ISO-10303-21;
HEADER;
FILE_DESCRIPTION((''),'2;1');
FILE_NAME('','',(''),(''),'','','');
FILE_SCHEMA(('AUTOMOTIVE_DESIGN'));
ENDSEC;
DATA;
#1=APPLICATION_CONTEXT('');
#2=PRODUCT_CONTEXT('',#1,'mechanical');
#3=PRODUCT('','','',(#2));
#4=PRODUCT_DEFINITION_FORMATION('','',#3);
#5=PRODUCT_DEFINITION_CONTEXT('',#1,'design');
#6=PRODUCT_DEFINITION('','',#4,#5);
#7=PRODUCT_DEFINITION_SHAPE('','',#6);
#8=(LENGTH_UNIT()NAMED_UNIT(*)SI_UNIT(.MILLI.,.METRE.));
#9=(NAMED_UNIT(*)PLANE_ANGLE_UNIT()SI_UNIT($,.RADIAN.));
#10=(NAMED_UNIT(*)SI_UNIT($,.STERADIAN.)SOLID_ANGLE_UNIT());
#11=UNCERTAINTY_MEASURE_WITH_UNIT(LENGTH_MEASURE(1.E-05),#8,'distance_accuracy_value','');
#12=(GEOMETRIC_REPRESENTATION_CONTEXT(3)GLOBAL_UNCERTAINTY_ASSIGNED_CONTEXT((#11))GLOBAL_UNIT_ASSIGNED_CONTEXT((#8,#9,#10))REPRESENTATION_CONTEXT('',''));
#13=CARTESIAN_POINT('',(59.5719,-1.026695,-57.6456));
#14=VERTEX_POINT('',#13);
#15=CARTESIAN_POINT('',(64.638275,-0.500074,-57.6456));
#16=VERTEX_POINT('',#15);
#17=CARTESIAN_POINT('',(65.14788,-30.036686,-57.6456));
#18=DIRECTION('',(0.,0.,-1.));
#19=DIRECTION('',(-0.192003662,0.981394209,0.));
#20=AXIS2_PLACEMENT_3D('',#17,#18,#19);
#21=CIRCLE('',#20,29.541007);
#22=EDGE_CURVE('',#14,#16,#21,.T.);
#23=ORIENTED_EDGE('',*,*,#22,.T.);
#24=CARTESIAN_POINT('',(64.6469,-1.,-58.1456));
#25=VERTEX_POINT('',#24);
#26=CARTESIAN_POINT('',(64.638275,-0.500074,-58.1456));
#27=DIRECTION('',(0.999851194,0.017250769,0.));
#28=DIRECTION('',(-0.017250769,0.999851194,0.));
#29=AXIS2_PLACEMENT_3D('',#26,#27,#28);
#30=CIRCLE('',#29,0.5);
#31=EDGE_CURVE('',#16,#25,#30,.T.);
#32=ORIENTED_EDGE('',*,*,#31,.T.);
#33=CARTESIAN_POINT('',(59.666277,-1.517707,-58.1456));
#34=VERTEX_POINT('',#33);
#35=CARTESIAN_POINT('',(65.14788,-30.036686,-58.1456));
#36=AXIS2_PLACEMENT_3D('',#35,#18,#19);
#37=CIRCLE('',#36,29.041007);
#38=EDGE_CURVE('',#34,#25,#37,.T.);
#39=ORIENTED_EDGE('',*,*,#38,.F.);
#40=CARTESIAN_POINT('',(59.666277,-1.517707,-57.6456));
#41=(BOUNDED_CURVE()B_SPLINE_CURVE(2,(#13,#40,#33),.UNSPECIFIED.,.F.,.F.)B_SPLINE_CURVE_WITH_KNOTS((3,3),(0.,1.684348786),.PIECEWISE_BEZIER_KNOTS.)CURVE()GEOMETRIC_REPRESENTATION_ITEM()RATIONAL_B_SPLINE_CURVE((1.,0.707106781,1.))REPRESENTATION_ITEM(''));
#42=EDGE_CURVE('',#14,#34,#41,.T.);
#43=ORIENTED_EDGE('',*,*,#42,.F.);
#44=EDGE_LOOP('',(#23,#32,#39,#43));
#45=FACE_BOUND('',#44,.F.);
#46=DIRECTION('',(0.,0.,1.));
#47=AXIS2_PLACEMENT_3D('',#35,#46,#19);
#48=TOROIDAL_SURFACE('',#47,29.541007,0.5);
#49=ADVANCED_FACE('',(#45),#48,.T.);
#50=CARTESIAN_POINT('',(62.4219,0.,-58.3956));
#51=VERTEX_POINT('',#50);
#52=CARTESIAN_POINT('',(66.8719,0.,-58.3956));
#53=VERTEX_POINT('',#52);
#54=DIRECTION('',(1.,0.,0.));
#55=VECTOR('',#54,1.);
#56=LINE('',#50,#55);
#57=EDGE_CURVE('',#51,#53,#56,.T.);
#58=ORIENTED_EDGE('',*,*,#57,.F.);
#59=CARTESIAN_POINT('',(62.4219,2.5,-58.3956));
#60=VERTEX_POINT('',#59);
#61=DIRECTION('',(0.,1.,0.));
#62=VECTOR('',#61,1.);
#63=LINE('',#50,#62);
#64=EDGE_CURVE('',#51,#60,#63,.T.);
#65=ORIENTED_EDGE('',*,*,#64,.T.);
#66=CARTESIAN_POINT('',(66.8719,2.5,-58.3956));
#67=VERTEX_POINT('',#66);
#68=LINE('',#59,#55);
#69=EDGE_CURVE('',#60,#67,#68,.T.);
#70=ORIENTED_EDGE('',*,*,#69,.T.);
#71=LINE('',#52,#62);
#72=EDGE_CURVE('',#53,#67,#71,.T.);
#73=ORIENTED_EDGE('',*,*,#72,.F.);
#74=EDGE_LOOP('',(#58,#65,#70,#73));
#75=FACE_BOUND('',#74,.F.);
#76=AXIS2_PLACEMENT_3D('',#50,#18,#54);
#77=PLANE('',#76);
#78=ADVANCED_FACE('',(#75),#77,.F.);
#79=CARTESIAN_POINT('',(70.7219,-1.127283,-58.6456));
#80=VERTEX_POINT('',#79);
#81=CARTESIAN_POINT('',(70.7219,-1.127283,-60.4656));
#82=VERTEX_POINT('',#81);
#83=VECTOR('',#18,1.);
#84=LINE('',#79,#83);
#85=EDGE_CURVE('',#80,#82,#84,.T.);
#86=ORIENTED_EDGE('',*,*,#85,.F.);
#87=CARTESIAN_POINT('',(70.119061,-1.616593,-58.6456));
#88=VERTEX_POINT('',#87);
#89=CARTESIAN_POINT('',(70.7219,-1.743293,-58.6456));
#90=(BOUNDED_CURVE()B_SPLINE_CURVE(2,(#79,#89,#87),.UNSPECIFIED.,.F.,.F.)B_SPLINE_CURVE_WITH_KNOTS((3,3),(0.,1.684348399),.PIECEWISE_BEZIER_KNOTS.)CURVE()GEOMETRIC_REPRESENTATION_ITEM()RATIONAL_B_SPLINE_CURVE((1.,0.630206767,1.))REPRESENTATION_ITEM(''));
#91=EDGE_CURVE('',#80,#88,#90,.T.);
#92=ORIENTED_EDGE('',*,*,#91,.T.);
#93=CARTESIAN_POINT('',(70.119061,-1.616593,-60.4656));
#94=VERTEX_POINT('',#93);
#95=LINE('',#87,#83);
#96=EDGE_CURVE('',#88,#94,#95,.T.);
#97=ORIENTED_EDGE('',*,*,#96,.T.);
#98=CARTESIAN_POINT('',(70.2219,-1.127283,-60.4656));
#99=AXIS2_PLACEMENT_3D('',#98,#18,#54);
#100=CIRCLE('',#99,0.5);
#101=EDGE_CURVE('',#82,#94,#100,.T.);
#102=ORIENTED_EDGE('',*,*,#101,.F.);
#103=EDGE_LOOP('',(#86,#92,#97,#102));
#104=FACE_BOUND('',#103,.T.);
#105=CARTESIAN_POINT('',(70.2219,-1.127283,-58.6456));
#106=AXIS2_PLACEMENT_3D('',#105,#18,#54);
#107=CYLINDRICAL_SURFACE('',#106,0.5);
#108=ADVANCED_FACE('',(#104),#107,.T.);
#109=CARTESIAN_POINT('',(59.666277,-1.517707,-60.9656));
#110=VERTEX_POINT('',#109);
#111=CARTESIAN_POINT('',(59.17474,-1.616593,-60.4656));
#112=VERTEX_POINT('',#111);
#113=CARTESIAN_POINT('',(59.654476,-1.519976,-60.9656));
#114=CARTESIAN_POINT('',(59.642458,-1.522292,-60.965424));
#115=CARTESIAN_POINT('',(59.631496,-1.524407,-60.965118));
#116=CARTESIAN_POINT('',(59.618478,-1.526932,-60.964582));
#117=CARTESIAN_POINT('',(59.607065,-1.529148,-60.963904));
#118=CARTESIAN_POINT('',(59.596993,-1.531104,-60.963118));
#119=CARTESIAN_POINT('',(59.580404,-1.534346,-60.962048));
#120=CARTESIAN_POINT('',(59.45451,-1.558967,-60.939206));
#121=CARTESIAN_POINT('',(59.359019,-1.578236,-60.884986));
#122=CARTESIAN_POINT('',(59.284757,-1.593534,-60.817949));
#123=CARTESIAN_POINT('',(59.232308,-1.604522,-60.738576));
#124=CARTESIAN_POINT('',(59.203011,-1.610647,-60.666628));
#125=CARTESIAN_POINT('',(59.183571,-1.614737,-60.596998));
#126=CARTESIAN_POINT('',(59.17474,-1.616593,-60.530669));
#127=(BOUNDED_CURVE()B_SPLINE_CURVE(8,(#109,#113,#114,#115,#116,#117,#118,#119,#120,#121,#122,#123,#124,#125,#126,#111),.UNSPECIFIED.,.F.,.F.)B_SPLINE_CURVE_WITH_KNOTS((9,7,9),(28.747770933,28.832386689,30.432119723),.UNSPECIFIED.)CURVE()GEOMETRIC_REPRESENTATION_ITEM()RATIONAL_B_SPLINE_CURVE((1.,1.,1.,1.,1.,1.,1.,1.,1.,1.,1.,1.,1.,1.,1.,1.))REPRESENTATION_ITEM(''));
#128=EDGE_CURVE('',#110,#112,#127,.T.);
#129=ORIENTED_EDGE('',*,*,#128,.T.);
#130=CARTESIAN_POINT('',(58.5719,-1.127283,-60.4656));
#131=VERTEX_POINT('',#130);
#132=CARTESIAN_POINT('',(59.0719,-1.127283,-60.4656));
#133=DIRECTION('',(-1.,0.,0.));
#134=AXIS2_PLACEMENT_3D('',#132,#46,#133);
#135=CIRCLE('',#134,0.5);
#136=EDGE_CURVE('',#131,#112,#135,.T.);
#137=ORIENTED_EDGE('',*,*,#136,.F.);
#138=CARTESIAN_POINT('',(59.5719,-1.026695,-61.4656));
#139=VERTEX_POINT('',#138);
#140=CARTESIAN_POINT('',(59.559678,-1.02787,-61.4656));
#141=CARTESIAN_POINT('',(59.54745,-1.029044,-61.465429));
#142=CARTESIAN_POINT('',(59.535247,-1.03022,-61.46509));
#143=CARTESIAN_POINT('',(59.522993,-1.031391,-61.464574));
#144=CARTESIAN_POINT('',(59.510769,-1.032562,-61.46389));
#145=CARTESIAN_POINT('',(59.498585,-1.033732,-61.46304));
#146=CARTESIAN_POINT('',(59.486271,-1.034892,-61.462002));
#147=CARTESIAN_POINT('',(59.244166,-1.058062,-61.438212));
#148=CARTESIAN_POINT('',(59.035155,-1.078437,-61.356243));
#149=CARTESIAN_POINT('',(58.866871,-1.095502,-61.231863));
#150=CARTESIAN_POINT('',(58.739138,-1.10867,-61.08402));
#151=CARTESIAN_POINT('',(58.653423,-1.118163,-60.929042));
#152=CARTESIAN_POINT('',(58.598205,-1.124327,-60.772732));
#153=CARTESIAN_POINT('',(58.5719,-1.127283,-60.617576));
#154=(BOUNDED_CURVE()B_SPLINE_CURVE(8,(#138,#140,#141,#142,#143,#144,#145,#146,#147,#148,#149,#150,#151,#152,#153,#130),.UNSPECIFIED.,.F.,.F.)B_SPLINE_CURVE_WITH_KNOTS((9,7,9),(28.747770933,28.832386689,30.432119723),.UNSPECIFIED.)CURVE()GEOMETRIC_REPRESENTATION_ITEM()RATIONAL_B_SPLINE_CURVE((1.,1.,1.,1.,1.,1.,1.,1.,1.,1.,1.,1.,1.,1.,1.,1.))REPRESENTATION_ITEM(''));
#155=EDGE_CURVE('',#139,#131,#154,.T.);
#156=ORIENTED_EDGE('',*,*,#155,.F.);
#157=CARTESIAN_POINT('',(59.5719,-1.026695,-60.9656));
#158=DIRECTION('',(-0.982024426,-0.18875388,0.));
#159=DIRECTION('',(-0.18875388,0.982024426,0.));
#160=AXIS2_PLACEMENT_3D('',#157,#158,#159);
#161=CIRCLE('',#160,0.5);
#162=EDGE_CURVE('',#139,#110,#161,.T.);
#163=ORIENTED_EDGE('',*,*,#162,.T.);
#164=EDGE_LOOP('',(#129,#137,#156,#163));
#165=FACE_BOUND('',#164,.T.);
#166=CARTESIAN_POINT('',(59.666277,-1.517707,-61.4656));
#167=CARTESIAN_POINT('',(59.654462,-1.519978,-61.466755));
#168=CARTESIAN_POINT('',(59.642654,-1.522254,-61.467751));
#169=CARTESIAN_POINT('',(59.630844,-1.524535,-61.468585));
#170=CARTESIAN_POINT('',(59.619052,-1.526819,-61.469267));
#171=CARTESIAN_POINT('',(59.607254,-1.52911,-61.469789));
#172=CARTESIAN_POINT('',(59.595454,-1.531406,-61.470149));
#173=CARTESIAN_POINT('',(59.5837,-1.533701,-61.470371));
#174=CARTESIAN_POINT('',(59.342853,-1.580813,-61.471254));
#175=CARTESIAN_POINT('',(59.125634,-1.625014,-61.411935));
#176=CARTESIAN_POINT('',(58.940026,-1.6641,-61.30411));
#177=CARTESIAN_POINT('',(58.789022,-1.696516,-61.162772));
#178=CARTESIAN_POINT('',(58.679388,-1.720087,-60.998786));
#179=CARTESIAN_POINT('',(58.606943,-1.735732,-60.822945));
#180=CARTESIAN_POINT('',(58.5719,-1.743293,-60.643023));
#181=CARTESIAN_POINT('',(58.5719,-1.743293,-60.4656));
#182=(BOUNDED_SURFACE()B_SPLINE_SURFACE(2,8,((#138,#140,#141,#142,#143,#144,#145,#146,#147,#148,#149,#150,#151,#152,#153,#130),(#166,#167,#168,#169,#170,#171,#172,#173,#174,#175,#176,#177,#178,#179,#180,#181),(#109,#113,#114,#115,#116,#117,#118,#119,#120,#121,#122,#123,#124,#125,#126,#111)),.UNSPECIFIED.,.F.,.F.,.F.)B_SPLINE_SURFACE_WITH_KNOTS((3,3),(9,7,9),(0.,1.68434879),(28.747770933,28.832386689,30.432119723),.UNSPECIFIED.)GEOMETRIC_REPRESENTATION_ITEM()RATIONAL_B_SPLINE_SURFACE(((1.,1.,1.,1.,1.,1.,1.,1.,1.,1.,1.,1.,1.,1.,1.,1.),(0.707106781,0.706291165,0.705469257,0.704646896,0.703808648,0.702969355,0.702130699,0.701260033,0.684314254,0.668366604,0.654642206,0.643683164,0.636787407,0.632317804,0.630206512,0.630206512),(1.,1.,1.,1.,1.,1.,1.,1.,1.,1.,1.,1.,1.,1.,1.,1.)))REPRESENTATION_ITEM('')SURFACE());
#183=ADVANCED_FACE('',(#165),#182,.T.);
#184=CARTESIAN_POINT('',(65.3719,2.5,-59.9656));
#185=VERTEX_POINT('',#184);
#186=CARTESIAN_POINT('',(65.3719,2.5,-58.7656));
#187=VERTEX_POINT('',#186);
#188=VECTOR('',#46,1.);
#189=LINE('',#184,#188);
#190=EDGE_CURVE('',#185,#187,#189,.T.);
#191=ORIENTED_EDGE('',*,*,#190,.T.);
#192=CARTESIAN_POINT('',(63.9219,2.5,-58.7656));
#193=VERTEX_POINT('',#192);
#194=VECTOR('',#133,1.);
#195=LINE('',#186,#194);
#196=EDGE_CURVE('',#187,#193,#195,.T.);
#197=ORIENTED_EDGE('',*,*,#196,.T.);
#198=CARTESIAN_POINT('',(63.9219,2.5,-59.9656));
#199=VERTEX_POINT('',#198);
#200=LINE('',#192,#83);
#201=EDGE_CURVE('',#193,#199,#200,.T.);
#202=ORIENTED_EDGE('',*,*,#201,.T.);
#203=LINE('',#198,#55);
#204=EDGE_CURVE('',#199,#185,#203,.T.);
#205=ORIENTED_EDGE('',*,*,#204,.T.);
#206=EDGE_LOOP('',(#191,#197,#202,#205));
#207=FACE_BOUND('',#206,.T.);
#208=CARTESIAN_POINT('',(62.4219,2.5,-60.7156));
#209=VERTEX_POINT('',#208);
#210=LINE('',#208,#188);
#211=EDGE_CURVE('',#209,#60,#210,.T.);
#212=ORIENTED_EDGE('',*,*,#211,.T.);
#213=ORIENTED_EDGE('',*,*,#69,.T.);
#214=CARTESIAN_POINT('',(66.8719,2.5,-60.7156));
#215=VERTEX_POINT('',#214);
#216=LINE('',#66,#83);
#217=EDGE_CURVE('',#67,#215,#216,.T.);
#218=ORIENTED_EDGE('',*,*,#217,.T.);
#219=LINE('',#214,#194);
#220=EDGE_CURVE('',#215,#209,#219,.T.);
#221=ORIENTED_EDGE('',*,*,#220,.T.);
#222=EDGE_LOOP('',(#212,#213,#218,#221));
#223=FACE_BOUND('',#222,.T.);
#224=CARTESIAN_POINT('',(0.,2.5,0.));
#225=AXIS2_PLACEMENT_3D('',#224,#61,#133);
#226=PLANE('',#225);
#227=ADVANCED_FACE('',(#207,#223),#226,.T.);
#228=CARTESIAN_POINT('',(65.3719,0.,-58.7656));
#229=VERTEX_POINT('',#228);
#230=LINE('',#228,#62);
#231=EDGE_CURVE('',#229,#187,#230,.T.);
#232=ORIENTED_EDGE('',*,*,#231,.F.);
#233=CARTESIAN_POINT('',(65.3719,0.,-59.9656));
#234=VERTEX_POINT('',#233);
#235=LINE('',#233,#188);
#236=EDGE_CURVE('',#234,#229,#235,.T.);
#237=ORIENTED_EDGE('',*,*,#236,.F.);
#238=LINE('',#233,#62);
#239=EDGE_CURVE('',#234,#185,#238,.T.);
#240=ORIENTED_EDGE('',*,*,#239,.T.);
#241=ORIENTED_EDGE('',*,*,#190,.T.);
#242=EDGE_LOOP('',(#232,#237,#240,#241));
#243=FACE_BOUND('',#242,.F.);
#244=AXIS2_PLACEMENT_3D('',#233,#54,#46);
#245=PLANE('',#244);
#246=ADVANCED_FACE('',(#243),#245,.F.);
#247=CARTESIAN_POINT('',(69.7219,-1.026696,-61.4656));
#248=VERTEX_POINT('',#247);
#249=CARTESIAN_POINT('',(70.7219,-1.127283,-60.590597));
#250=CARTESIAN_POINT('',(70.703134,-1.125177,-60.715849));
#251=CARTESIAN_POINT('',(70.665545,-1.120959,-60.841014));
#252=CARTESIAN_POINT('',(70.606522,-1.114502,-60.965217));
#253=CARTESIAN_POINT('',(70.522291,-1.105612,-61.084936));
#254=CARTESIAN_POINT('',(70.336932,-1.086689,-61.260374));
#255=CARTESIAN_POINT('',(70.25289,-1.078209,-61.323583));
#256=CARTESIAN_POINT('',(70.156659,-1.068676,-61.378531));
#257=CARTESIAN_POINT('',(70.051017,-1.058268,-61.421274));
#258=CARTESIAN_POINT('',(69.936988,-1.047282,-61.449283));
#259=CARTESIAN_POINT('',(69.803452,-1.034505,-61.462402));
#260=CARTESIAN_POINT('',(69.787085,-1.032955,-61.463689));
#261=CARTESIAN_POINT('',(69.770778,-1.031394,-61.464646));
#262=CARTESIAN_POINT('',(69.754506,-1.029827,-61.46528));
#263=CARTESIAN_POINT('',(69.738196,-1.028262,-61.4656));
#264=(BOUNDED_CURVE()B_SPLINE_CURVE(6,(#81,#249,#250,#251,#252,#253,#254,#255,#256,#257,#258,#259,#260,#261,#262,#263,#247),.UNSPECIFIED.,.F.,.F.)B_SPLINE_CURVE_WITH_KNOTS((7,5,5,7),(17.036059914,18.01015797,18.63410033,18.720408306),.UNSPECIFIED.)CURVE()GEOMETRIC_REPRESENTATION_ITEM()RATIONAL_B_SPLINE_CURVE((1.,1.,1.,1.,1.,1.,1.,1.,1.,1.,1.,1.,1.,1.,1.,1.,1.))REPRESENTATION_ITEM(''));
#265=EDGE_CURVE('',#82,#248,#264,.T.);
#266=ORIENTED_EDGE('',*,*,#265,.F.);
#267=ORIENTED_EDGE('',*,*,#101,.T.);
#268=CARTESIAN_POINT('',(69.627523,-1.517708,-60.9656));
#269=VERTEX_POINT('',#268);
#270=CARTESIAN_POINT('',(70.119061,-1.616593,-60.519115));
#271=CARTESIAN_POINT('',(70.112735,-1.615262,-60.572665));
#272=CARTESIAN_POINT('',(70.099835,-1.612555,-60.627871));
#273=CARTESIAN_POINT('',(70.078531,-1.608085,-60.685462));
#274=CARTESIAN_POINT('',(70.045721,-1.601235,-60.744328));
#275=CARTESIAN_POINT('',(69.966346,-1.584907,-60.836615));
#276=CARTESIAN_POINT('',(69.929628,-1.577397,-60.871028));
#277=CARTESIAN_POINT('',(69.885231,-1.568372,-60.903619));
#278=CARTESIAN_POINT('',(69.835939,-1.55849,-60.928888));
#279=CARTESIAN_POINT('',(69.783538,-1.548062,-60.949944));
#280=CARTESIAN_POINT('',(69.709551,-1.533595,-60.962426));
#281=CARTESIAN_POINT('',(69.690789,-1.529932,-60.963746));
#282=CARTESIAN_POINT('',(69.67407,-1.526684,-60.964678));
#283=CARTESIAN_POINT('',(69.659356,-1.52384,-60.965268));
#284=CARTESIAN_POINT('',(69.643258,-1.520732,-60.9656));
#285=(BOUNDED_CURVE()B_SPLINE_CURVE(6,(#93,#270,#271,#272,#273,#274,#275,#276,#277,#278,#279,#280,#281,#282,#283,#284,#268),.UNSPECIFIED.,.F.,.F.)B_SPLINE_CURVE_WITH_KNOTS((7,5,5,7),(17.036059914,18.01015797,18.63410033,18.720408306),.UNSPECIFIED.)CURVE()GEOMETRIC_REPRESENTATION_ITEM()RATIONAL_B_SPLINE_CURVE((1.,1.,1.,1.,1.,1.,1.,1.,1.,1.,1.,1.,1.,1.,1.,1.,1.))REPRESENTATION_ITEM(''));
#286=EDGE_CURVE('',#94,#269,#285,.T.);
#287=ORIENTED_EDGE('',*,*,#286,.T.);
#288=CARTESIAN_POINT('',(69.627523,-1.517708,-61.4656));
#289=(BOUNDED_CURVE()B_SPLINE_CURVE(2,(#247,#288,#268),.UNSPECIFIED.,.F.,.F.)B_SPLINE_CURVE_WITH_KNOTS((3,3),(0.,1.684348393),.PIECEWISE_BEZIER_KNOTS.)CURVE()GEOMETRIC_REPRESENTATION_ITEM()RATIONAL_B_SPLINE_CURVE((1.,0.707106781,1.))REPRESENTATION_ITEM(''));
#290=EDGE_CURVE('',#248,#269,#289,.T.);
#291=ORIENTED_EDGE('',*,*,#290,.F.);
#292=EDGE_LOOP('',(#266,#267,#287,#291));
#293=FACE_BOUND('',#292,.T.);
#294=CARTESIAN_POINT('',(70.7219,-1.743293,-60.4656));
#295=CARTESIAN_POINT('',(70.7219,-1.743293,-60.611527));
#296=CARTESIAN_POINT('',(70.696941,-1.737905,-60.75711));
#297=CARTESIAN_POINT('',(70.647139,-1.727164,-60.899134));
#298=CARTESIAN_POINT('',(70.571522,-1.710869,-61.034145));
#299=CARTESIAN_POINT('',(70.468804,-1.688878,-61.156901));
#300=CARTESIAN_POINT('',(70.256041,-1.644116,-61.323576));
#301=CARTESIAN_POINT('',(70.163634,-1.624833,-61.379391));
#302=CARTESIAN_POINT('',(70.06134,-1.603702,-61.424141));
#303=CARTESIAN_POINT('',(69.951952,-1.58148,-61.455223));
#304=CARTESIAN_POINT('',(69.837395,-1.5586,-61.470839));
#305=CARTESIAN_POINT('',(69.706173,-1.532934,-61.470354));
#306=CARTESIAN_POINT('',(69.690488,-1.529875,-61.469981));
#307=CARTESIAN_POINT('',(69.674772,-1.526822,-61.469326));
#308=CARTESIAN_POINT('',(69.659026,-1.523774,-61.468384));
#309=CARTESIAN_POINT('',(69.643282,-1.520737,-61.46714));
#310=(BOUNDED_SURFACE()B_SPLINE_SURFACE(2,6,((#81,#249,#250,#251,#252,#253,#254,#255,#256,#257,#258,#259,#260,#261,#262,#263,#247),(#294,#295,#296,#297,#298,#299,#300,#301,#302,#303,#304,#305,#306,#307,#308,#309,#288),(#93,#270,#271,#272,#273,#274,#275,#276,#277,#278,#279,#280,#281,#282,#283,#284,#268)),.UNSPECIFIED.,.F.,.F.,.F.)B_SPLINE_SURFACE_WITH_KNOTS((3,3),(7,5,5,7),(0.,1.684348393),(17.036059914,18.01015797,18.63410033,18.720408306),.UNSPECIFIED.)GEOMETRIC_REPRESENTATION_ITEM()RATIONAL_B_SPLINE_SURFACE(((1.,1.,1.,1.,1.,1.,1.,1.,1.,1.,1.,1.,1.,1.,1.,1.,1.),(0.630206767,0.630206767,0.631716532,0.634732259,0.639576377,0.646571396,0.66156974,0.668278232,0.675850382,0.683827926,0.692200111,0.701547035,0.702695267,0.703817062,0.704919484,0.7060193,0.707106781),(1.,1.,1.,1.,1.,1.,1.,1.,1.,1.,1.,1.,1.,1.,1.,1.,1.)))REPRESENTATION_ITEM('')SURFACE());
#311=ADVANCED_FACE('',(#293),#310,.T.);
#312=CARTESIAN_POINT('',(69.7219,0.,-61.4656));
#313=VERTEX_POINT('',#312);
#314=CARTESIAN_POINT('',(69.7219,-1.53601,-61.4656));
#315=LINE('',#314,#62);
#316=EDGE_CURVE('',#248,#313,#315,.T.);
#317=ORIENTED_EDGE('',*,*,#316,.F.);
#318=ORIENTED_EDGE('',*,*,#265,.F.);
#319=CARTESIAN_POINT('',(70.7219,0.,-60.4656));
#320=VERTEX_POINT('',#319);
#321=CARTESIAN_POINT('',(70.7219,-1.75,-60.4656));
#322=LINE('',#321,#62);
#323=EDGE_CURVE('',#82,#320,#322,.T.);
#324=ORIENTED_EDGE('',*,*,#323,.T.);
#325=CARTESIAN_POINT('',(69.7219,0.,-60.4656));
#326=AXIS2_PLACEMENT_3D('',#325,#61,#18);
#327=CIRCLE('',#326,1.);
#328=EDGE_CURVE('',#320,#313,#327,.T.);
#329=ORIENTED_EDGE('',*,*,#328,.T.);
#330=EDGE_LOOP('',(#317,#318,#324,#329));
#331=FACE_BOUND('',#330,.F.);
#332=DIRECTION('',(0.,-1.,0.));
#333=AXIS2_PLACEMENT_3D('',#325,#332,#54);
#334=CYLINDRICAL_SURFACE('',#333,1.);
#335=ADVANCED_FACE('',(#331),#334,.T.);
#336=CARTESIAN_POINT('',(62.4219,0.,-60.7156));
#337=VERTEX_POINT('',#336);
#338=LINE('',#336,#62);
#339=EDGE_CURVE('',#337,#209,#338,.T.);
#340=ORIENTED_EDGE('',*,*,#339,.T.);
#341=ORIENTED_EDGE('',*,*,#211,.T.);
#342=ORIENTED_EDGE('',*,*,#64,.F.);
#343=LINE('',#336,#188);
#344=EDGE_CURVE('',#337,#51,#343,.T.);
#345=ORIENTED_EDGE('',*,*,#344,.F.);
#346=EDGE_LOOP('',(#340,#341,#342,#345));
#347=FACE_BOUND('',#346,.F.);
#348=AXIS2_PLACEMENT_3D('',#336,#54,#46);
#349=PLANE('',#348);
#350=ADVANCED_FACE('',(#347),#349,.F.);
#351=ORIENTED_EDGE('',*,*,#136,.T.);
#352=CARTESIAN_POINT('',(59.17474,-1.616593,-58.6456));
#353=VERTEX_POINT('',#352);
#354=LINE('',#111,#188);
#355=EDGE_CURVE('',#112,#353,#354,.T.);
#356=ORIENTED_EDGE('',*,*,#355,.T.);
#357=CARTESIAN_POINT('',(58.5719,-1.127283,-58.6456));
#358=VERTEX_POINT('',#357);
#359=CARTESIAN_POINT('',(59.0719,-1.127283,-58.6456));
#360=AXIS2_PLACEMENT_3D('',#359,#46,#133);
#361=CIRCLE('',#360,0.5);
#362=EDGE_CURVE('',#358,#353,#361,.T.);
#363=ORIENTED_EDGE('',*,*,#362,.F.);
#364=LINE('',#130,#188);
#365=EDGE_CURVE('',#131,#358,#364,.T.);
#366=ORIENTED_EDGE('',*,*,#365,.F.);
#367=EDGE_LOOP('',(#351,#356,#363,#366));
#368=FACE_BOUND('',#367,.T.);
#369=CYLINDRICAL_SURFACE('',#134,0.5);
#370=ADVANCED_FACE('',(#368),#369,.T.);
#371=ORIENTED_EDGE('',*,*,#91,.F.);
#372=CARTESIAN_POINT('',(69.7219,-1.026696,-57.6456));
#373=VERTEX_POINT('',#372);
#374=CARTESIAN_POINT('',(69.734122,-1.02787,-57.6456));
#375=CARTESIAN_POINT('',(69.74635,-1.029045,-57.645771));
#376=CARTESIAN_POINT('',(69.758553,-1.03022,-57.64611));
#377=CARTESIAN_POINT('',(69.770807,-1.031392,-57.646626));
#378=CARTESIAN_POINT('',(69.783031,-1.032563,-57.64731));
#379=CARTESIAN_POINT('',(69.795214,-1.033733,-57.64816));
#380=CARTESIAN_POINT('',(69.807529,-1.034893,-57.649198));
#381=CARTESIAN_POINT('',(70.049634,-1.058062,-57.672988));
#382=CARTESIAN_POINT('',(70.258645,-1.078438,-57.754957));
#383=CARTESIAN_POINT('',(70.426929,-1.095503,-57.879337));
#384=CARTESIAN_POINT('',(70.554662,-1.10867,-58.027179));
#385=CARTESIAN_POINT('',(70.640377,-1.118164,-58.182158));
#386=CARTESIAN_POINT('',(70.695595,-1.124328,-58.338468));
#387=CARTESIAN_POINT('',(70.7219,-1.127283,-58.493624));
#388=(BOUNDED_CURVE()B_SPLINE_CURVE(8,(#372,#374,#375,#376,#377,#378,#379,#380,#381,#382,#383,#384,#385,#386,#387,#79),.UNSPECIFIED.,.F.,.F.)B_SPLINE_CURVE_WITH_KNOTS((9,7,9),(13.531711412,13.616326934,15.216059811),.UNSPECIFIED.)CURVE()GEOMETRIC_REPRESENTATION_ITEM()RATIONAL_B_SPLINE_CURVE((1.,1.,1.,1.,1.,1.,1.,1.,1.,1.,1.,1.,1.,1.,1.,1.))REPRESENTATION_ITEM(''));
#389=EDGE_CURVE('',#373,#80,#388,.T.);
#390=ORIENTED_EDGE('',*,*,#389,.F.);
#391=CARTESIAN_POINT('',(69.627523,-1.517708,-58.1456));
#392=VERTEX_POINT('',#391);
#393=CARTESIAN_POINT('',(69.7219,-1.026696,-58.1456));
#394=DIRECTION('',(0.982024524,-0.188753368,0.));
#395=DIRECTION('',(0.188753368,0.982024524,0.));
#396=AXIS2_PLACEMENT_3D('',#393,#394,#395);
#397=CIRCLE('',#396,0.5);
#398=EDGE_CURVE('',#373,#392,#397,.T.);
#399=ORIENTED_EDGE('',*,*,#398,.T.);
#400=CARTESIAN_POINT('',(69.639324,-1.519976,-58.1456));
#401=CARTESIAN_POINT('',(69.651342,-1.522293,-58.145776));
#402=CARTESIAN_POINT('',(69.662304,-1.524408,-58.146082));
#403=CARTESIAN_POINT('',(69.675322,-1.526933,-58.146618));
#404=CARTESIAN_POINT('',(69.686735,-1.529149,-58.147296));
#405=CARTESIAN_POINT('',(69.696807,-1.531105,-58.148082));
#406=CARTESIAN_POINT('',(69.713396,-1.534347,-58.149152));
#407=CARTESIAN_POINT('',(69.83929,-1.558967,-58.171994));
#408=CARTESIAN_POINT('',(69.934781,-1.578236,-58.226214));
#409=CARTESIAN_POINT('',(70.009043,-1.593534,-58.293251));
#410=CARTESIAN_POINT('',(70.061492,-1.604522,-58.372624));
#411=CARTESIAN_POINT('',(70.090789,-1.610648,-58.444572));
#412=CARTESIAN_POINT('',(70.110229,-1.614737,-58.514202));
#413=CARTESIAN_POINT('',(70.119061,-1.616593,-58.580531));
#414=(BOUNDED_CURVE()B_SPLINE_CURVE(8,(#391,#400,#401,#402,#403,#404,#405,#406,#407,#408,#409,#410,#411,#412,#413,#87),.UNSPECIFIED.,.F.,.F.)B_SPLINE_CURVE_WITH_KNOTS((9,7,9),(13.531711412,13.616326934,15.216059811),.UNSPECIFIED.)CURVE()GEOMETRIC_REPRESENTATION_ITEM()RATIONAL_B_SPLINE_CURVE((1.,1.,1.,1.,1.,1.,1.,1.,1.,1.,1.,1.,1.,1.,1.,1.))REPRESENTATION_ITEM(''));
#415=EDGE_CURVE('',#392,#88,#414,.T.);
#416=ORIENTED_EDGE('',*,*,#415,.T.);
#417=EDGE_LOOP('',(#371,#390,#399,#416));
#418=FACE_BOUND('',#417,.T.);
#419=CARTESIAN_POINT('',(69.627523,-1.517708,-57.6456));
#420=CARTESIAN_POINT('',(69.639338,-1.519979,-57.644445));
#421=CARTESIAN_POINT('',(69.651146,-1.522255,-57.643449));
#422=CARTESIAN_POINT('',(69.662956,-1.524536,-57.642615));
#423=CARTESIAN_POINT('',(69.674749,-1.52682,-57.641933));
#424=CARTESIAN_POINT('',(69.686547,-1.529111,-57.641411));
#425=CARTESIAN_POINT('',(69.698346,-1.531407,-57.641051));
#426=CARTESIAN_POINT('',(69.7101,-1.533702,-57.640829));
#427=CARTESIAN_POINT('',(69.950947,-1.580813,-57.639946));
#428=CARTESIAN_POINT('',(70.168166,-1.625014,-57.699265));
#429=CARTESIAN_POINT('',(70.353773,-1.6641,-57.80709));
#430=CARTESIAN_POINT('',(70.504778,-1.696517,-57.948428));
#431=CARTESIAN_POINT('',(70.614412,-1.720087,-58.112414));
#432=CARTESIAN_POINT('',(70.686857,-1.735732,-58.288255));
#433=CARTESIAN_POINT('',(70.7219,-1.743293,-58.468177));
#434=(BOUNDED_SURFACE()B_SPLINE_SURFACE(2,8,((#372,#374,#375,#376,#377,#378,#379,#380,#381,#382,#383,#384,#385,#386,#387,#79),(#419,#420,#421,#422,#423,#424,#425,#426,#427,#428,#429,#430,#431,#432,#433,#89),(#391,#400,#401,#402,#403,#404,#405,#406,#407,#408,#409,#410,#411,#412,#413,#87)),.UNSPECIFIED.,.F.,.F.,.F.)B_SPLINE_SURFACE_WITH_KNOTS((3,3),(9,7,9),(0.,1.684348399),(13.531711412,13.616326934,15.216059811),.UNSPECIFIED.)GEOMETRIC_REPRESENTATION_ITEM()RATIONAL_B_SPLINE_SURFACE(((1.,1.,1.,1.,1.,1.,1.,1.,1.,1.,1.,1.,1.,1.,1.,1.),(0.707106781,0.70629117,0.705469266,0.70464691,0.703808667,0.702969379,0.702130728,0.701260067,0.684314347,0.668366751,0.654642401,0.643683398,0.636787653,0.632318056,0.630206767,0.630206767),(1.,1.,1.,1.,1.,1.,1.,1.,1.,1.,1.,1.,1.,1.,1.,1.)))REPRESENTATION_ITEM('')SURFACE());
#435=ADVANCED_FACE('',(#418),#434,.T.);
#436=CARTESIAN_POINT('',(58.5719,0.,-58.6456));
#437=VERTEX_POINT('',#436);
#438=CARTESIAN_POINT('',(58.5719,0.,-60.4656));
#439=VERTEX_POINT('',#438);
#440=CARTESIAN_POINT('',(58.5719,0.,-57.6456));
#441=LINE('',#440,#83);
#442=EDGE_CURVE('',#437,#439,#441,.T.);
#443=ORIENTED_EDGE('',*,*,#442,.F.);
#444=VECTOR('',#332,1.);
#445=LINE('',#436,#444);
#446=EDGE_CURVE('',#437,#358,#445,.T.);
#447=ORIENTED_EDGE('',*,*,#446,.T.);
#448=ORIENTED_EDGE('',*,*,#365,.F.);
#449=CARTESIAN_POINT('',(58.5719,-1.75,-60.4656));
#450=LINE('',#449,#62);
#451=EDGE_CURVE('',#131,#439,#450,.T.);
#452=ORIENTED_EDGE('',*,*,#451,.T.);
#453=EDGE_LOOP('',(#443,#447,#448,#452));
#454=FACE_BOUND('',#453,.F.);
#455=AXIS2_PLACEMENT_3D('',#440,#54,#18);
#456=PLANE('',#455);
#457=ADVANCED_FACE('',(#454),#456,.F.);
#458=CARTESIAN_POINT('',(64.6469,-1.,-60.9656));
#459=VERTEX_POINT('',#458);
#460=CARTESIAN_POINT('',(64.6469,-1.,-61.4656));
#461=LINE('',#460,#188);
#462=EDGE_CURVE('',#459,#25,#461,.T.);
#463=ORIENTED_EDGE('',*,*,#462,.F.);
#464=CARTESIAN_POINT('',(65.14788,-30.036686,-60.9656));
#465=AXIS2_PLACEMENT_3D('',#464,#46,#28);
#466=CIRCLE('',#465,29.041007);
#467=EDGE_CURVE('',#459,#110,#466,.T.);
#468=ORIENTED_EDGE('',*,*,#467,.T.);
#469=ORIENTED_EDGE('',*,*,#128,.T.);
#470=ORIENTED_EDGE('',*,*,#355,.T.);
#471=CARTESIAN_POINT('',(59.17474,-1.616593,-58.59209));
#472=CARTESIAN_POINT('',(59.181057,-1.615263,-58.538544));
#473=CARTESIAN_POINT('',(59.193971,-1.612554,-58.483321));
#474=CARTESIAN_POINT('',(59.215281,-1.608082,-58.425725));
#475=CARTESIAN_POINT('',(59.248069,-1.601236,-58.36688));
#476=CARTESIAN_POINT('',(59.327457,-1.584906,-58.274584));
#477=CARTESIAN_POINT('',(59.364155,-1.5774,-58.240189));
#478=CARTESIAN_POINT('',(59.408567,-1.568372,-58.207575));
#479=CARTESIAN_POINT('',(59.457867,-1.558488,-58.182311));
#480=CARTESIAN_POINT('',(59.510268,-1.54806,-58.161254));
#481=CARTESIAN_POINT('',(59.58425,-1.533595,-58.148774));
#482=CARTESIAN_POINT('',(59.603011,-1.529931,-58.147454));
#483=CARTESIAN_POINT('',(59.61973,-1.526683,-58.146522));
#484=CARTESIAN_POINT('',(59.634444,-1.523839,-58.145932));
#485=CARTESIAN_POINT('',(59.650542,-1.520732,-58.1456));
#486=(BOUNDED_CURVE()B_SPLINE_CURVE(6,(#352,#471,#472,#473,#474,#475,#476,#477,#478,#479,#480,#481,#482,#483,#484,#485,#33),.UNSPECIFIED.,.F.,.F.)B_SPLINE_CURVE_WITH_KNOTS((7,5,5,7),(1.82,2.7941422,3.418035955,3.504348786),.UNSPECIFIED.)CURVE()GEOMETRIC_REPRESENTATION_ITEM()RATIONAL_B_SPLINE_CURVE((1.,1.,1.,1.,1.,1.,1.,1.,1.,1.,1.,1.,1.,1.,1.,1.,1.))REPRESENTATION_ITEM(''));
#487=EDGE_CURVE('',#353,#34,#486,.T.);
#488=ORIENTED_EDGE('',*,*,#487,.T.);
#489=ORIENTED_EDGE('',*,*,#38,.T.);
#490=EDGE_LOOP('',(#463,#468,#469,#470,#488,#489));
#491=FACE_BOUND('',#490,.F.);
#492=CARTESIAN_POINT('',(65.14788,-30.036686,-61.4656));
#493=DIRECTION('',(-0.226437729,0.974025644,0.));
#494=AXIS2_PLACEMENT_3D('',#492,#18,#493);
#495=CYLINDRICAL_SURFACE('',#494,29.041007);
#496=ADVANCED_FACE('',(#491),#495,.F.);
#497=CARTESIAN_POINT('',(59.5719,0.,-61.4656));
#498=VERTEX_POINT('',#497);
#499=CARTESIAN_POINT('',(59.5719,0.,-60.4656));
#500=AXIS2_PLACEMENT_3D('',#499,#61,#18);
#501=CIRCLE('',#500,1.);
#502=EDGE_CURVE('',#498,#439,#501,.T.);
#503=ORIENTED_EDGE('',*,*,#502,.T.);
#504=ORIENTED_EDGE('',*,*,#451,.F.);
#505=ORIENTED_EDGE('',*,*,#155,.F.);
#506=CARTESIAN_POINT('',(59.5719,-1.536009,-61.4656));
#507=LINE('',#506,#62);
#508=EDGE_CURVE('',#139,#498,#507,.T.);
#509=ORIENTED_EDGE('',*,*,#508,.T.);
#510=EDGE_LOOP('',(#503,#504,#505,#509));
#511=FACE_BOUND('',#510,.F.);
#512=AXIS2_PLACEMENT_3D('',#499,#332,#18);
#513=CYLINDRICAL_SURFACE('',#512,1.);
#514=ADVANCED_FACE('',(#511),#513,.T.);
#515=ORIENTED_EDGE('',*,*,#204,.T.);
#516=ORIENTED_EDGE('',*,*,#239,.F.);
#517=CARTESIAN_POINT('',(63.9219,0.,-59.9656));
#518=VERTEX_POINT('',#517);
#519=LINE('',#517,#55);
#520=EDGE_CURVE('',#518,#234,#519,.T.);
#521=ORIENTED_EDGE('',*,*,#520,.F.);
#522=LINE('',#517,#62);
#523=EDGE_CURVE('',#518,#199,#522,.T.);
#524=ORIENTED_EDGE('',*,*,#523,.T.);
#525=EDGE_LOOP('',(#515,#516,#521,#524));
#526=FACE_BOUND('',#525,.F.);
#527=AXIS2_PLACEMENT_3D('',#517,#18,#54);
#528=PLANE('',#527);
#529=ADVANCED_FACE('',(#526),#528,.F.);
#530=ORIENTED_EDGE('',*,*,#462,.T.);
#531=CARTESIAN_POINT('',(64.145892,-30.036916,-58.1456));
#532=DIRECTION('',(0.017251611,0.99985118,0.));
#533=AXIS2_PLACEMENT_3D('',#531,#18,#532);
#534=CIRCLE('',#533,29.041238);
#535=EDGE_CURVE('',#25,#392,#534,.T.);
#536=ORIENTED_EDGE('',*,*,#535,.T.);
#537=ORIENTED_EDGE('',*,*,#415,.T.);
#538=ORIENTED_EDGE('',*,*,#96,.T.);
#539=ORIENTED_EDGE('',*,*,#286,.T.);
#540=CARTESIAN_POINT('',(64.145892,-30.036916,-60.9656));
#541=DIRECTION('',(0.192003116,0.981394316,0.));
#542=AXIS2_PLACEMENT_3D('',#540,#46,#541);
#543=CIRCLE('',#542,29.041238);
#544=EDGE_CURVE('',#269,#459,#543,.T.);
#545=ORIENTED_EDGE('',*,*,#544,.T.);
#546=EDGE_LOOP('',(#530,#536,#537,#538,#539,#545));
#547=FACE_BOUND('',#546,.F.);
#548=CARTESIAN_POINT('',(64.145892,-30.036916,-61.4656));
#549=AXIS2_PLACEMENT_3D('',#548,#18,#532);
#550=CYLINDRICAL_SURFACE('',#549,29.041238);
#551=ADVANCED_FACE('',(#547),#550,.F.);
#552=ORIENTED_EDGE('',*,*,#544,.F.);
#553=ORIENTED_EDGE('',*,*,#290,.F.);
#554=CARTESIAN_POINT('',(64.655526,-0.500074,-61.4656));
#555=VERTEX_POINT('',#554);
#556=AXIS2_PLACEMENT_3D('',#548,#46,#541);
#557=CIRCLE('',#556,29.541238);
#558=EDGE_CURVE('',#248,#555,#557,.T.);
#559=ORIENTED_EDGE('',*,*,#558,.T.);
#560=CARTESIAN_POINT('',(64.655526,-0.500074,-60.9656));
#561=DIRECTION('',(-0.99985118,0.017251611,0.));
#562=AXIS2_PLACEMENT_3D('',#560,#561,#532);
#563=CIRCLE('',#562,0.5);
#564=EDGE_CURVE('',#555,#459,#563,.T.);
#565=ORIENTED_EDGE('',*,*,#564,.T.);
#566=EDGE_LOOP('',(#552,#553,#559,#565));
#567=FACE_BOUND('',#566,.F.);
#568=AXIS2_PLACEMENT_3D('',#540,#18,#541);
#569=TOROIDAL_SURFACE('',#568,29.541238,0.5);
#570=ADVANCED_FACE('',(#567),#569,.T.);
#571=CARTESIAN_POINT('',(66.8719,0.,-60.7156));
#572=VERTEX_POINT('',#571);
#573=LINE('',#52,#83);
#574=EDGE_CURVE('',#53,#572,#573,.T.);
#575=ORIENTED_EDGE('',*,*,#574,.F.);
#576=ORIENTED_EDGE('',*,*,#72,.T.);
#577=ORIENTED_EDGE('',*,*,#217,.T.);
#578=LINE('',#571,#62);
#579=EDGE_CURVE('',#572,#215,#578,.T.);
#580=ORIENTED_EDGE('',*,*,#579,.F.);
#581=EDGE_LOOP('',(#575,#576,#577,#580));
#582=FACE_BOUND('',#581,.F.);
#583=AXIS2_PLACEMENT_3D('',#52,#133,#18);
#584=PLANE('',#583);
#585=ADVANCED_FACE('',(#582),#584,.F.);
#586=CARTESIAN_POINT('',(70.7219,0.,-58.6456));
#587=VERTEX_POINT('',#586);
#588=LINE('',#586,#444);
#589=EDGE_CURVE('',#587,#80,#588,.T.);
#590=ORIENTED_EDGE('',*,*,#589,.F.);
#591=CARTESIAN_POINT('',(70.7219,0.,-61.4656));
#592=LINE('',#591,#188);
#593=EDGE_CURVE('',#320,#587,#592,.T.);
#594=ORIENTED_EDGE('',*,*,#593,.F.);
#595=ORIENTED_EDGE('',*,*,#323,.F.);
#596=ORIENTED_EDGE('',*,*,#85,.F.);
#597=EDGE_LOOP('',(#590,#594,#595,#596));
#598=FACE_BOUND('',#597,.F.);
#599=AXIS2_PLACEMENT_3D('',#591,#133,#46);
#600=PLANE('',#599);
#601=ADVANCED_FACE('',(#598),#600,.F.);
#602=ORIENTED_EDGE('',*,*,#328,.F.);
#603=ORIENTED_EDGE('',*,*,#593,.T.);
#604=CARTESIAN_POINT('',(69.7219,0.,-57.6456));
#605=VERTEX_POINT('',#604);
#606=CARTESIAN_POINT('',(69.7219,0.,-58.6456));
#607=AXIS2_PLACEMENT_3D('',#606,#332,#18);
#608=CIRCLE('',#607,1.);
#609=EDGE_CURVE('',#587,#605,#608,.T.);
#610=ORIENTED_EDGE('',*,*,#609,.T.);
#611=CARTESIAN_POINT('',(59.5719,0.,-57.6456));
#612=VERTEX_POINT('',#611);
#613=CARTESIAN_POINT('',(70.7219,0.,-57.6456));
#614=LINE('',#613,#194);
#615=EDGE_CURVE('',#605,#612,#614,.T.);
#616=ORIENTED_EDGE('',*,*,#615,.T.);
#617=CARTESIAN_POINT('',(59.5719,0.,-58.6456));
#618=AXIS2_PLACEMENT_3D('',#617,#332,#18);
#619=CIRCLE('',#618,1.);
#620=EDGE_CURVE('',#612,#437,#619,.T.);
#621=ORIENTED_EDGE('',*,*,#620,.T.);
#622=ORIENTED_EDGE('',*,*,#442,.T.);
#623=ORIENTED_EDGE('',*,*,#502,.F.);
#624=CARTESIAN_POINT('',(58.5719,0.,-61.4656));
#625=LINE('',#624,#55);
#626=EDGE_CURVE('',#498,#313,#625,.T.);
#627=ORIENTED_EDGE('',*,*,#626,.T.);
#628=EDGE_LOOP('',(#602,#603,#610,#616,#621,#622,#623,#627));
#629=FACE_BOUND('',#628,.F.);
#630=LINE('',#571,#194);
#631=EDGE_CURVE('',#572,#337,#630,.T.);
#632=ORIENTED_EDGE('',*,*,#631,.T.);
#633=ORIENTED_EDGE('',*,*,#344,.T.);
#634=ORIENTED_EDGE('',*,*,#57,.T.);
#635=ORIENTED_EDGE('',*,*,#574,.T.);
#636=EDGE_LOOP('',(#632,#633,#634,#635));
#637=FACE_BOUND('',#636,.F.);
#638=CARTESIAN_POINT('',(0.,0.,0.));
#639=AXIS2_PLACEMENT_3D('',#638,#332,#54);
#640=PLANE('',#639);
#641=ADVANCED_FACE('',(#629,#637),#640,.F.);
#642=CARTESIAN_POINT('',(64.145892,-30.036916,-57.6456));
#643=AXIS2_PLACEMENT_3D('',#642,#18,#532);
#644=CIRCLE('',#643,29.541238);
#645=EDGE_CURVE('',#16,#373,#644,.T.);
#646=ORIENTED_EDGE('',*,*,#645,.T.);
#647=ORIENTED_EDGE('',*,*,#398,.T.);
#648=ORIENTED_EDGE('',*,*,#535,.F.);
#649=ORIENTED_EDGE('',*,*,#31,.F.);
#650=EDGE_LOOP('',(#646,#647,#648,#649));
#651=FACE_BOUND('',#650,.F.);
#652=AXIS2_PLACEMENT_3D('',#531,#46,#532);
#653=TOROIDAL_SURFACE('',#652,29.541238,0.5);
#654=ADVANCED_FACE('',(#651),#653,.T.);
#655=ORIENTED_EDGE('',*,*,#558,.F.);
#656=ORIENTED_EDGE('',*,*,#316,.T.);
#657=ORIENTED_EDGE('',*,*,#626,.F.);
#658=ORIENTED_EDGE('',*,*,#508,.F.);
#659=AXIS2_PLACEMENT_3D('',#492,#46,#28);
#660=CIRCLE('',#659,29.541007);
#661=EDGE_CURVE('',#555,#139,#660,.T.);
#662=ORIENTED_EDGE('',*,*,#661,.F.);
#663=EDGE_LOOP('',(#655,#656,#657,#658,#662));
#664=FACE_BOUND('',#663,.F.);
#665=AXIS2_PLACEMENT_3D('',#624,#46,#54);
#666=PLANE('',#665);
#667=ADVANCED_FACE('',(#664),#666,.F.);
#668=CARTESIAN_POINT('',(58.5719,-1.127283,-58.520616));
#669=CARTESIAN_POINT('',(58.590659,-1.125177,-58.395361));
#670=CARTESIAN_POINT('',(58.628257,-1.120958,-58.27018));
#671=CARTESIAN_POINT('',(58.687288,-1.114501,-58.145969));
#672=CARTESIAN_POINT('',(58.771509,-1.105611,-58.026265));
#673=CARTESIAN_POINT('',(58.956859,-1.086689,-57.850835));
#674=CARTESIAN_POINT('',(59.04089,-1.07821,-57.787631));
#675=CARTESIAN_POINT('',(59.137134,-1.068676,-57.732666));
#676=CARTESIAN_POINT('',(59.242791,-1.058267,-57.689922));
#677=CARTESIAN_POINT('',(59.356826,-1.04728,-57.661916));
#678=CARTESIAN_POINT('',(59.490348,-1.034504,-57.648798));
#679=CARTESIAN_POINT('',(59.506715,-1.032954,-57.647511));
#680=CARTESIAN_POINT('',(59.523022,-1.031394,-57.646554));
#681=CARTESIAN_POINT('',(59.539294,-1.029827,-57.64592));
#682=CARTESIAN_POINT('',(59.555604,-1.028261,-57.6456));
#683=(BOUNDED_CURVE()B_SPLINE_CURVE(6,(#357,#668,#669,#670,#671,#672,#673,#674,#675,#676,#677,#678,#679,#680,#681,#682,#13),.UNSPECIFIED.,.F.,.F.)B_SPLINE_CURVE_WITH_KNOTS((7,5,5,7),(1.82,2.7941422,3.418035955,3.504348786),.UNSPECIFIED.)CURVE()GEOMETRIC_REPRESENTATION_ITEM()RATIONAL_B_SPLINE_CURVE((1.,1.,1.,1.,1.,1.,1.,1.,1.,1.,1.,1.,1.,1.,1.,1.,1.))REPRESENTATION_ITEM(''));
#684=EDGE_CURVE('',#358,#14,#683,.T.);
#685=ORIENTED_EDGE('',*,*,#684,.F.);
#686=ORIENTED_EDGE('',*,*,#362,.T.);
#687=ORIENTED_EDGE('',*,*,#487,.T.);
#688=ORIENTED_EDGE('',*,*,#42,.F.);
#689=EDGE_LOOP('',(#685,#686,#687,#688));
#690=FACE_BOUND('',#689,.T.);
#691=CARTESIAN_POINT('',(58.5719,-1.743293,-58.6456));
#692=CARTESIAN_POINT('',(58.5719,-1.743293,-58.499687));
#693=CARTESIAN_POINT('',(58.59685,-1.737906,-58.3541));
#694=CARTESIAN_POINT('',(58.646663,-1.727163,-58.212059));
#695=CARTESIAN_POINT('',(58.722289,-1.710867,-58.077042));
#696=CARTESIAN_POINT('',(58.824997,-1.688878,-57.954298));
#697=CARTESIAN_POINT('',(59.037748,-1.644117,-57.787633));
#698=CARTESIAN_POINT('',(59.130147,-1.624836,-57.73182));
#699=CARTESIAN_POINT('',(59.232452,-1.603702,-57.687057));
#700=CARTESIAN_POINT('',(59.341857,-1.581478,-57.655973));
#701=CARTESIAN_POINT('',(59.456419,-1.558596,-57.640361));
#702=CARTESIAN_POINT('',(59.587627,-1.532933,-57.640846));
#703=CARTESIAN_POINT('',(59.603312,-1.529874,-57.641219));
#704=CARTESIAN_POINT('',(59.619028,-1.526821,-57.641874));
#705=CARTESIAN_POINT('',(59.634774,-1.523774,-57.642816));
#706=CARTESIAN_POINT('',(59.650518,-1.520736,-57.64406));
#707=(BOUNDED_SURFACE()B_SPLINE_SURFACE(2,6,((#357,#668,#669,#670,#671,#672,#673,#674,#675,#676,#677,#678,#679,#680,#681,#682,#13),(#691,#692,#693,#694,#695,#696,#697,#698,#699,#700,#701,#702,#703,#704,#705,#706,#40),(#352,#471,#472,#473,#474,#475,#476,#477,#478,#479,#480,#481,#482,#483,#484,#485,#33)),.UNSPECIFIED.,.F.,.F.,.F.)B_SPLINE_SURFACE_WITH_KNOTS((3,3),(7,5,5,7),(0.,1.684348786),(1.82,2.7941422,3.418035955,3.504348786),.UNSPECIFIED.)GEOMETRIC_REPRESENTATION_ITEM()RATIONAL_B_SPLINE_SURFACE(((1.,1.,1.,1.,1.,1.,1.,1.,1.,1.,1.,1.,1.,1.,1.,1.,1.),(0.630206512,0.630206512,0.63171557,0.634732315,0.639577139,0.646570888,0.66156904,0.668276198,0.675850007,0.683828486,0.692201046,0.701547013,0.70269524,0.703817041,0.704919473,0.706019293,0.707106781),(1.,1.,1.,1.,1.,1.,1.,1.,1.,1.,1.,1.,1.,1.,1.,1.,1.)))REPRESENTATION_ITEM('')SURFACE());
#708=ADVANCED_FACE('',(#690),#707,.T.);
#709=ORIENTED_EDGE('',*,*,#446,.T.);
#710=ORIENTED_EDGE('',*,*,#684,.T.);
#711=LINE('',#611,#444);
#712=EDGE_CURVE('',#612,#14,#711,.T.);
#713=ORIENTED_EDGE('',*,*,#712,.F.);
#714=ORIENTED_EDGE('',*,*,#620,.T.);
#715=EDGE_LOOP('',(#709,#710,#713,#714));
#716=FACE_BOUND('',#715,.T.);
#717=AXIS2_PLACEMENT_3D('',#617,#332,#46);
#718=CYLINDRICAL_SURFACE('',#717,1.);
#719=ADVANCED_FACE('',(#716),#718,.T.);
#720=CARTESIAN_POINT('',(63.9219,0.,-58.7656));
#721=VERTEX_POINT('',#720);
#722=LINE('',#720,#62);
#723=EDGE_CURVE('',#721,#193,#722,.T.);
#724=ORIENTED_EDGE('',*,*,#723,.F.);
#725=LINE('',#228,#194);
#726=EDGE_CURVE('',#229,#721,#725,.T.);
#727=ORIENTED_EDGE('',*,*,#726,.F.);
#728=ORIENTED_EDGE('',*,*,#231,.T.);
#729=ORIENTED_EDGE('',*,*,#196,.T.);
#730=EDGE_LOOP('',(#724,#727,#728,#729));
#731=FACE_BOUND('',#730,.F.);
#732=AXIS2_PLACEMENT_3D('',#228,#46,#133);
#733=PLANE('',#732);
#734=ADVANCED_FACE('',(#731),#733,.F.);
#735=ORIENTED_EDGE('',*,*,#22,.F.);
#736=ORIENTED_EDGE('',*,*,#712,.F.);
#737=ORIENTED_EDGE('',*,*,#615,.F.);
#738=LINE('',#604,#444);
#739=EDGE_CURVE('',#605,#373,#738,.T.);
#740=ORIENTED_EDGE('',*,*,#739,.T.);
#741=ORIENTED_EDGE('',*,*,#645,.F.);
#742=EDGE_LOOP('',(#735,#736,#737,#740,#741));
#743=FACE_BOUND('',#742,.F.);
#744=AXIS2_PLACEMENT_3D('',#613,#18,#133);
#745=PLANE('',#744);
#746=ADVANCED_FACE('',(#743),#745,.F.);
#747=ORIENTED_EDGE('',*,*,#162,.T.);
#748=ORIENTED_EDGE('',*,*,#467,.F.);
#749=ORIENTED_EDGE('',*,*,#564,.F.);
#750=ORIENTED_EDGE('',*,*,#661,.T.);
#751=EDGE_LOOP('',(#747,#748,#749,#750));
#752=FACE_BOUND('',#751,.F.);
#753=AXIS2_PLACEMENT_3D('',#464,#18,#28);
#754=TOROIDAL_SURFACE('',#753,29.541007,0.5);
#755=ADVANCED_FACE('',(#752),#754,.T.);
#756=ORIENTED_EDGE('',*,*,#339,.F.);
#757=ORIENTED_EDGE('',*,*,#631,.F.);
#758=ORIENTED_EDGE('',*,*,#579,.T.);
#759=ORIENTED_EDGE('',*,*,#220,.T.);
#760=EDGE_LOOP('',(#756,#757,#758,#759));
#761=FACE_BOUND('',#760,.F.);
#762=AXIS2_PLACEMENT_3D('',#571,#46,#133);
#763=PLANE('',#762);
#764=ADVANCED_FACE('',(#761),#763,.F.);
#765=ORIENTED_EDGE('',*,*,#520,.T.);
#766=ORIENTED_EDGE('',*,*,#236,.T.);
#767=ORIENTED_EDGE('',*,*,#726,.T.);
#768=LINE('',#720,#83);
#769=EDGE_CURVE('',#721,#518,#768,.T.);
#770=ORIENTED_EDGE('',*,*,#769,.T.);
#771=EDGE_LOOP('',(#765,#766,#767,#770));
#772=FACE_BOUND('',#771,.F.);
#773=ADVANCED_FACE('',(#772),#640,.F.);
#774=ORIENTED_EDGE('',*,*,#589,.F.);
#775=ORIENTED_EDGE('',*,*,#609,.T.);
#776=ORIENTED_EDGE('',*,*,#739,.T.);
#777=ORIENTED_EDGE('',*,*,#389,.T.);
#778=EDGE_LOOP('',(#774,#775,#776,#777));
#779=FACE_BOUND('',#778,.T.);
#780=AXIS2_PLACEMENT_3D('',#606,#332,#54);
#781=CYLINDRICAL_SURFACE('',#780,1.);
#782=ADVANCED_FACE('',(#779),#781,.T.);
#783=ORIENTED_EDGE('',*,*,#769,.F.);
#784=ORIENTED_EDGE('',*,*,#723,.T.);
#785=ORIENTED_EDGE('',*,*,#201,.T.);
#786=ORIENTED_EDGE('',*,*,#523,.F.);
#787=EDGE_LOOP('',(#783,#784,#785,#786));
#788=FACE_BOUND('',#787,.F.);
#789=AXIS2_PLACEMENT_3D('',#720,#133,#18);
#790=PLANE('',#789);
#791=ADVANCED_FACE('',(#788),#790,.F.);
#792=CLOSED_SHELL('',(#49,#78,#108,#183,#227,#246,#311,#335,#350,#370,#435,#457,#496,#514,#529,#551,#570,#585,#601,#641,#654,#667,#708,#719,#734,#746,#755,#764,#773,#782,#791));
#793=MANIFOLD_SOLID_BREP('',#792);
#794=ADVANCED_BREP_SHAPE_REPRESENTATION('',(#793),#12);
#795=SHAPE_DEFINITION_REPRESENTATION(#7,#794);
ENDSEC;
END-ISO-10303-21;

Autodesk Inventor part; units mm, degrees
ref_plane "YZ Plane" through (0, 0, 0) normal (1, 0, 0) x (0, 1, 0)
sketch "Sketch3" plane through (0, 0, 0) normal (0, 1, 0) x (-1, 0, 0)
  line L0 (-64.0219, -58.8656) -> (-65.2719, -58.8656) projected
  line L1 (-65.2719, -58.8656) -> (-65.2719, -59.8656) projected
  line L2 (-65.2719, -59.8656) -> (-64.0219, -59.8656) projected
  line L3 (-64.0219, -59.8656) -> (-64.0219, -58.8656) projected
  line L4 (-63.9219, -59.9656) -> (-65.3719, -59.9656)
  line L5 (-65.3719, -59.9656) -> (-65.3719, -58.7656)
  line L6 (-65.3719, -58.7656) -> (-63.9219, -58.7656)
  line L7 (-63.9219, -58.7656) -> (-63.9219, -59.9656)
  line L8 (-66.8719, -60.7156) -> (-62.4219, -60.7156)
  line L9 (-62.4219, -60.7156) -> (-62.4219, -58.3956)
  line L10 (-62.4219, -58.3956) -> (-66.8719, -58.3956)
  line L11 (-66.8719, -58.3956) -> (-66.8719, -60.7156)
  line L12 (-70.1719, -61.0956) -> (-70.1719, -58.0956) projected
  line L13 (-70.1719, -58.0956) -> (-60.6119, -58.0956) projected
  line L14 (-60.6119, -61.0956) -> (-60.6119, -58.0956) projected
  dimension "d4" = 0.1
  dimension "d8" = 1.5
  dimension "d9" = 1.5
  dimension "d10" = 0.3
  dimension "d11" = 0.75
extrude "Extrusion3" add sketch "Sketch3" along normal blind 2.5 contours L11 L10 L9 L8
ref_plane "Work Plane1" through (65.3719, 0, -59.3656) normal (0, 0, -1) x (-1, 0, 0)
ref_plane "Work Plane2" through (64.6469, 0, -58.7656) normal (1, 0, 0) x (0, 0, -1)
sketch "Sketch4" plane through (0, 0, 0) normal (0, -1, 0) x (1, 0, 0)
  line L0 (60.1219, -61.0956) -> (60.1219, -58.0956) projected
  line L1 (67.6819, -58.0956) -> (67.6819, -61.0956) projected
  line L2 (60.1219, -58.0956) -> (67.6819, -58.0956) projected
  line L3 (62.4219, -58.3956) -> (66.8719, -58.3956) projected
  line L4 (66.8719, -58.3956) -> (66.8719, -60.7156) projected
  line L5 (66.8719, -60.7156) -> (62.4219, -60.7156) projected
  line L6 (62.4219, -60.7156) -> (62.4219, -58.3956) projected
  line L7 (70.7219, -57.6456) -> (58.5719, -57.6456)
  line L8 (58.5719, -57.6456) -> (58.5719, -61.4656)
  line L9 (58.5719, -61.4656) -> (70.7219, -61.4656)
  line L10 (70.7219, -61.4656) -> (70.7219, -57.6456)
  dimension "d13" = 3.85
  dimension "d14" = 3.85
extrude "Extrusion4" add sketch "Sketch4" along normal blind 1 contours L3 L4 L5 L6 | L10 L9 L8 L7
fillet "Fillet1" radius 1 4 edges at (70.7219, -0.5, -61.4656) (58.5719, -0.5, -61.4656) (58.5719, -0.5, -57.6456) (70.7219, -0.5, -57.6456)
sketch "Sketch6" plane through (69.7219, 0, -61.4656) normal (0, 0, -1) x (-1, 0, 0)
  line L0 (10.15, -1) -> (0, -1) projected
  line L1 (11.15, -1) -> (10.15, -1) projected
  line L2 (0, -1) -> (-1, -1) projected
  line L3 (11.15, -1) -> (11.15, -1.75)
  line L4 (0, -1) -> (10.15, -1) projected
  line L5 (5.075, -1) -> (5.075, -2.2009)
  arc A0 (11.15, -1.75) -> (5.075, -1) centre (4.574, -30.0368) ccw
  line L6 (-1, -1) -> (-1, -1.75)
  arc A1 (5.075, -1) -> (-1, -1.75) centre (5.576, -30.0368) ccw
  dimension "d18" = 0.75
extrude "Extrusion5" add sketch "Sketch6" against normal up to surface (3.82 mm away)
sketch "Sketch7" plane through (69.7219, -1, -61.4656) normal (0, 1, 0) x (1, 0, 0)
  arc A0 (0, -3.82) -> (1, -2.82) centre (0, -2.82) ccw projected
  line L0 (0, -3.82) -> (1, -3.82) projected
  line L1 (1, -2.82) -> (1, -3.82) projected
  arc A1 (1, -1) -> (0, 0) centre (0, -1) ccw projected
  line L2 (1, 0) -> (1, -1) projected
  line L3 (0, 0) -> (1, 0) projected
  arc A2 (-10.15, 0) -> (-11.15, -1) centre (-10.15, -1) ccw projected
  line L4 (-11.15, 0) -> (-10.15, 0) projected
  line L5 (-11.15, 0) -> (-11.15, -1) projected
  arc A3 (-11.15, -2.82) -> (-10.15, -3.82) centre (-10.15, -2.82) ccw projected
  line L6 (-11.15, -2.82) -> (-11.15, -3.82) projected
  line L7 (-11.15, -3.82) -> (-10.15, -3.82) projected
extrude "Extrusion6" cut sketch "Sketch7" against normal blind 1
fillet "Fillet2" radius 0.5 6 edges at (58.5719, -1.75, -59.5556) (62.0976, -1.1563, -57.6456) (62.0976, -1.1563, -61.4656) (70.7219, -1.75, -59.5556) (67.1962, -1.1563, -57.6456) (67.1962, -1.1563, -61.4656)
properties part number "Power Switch Cap"
